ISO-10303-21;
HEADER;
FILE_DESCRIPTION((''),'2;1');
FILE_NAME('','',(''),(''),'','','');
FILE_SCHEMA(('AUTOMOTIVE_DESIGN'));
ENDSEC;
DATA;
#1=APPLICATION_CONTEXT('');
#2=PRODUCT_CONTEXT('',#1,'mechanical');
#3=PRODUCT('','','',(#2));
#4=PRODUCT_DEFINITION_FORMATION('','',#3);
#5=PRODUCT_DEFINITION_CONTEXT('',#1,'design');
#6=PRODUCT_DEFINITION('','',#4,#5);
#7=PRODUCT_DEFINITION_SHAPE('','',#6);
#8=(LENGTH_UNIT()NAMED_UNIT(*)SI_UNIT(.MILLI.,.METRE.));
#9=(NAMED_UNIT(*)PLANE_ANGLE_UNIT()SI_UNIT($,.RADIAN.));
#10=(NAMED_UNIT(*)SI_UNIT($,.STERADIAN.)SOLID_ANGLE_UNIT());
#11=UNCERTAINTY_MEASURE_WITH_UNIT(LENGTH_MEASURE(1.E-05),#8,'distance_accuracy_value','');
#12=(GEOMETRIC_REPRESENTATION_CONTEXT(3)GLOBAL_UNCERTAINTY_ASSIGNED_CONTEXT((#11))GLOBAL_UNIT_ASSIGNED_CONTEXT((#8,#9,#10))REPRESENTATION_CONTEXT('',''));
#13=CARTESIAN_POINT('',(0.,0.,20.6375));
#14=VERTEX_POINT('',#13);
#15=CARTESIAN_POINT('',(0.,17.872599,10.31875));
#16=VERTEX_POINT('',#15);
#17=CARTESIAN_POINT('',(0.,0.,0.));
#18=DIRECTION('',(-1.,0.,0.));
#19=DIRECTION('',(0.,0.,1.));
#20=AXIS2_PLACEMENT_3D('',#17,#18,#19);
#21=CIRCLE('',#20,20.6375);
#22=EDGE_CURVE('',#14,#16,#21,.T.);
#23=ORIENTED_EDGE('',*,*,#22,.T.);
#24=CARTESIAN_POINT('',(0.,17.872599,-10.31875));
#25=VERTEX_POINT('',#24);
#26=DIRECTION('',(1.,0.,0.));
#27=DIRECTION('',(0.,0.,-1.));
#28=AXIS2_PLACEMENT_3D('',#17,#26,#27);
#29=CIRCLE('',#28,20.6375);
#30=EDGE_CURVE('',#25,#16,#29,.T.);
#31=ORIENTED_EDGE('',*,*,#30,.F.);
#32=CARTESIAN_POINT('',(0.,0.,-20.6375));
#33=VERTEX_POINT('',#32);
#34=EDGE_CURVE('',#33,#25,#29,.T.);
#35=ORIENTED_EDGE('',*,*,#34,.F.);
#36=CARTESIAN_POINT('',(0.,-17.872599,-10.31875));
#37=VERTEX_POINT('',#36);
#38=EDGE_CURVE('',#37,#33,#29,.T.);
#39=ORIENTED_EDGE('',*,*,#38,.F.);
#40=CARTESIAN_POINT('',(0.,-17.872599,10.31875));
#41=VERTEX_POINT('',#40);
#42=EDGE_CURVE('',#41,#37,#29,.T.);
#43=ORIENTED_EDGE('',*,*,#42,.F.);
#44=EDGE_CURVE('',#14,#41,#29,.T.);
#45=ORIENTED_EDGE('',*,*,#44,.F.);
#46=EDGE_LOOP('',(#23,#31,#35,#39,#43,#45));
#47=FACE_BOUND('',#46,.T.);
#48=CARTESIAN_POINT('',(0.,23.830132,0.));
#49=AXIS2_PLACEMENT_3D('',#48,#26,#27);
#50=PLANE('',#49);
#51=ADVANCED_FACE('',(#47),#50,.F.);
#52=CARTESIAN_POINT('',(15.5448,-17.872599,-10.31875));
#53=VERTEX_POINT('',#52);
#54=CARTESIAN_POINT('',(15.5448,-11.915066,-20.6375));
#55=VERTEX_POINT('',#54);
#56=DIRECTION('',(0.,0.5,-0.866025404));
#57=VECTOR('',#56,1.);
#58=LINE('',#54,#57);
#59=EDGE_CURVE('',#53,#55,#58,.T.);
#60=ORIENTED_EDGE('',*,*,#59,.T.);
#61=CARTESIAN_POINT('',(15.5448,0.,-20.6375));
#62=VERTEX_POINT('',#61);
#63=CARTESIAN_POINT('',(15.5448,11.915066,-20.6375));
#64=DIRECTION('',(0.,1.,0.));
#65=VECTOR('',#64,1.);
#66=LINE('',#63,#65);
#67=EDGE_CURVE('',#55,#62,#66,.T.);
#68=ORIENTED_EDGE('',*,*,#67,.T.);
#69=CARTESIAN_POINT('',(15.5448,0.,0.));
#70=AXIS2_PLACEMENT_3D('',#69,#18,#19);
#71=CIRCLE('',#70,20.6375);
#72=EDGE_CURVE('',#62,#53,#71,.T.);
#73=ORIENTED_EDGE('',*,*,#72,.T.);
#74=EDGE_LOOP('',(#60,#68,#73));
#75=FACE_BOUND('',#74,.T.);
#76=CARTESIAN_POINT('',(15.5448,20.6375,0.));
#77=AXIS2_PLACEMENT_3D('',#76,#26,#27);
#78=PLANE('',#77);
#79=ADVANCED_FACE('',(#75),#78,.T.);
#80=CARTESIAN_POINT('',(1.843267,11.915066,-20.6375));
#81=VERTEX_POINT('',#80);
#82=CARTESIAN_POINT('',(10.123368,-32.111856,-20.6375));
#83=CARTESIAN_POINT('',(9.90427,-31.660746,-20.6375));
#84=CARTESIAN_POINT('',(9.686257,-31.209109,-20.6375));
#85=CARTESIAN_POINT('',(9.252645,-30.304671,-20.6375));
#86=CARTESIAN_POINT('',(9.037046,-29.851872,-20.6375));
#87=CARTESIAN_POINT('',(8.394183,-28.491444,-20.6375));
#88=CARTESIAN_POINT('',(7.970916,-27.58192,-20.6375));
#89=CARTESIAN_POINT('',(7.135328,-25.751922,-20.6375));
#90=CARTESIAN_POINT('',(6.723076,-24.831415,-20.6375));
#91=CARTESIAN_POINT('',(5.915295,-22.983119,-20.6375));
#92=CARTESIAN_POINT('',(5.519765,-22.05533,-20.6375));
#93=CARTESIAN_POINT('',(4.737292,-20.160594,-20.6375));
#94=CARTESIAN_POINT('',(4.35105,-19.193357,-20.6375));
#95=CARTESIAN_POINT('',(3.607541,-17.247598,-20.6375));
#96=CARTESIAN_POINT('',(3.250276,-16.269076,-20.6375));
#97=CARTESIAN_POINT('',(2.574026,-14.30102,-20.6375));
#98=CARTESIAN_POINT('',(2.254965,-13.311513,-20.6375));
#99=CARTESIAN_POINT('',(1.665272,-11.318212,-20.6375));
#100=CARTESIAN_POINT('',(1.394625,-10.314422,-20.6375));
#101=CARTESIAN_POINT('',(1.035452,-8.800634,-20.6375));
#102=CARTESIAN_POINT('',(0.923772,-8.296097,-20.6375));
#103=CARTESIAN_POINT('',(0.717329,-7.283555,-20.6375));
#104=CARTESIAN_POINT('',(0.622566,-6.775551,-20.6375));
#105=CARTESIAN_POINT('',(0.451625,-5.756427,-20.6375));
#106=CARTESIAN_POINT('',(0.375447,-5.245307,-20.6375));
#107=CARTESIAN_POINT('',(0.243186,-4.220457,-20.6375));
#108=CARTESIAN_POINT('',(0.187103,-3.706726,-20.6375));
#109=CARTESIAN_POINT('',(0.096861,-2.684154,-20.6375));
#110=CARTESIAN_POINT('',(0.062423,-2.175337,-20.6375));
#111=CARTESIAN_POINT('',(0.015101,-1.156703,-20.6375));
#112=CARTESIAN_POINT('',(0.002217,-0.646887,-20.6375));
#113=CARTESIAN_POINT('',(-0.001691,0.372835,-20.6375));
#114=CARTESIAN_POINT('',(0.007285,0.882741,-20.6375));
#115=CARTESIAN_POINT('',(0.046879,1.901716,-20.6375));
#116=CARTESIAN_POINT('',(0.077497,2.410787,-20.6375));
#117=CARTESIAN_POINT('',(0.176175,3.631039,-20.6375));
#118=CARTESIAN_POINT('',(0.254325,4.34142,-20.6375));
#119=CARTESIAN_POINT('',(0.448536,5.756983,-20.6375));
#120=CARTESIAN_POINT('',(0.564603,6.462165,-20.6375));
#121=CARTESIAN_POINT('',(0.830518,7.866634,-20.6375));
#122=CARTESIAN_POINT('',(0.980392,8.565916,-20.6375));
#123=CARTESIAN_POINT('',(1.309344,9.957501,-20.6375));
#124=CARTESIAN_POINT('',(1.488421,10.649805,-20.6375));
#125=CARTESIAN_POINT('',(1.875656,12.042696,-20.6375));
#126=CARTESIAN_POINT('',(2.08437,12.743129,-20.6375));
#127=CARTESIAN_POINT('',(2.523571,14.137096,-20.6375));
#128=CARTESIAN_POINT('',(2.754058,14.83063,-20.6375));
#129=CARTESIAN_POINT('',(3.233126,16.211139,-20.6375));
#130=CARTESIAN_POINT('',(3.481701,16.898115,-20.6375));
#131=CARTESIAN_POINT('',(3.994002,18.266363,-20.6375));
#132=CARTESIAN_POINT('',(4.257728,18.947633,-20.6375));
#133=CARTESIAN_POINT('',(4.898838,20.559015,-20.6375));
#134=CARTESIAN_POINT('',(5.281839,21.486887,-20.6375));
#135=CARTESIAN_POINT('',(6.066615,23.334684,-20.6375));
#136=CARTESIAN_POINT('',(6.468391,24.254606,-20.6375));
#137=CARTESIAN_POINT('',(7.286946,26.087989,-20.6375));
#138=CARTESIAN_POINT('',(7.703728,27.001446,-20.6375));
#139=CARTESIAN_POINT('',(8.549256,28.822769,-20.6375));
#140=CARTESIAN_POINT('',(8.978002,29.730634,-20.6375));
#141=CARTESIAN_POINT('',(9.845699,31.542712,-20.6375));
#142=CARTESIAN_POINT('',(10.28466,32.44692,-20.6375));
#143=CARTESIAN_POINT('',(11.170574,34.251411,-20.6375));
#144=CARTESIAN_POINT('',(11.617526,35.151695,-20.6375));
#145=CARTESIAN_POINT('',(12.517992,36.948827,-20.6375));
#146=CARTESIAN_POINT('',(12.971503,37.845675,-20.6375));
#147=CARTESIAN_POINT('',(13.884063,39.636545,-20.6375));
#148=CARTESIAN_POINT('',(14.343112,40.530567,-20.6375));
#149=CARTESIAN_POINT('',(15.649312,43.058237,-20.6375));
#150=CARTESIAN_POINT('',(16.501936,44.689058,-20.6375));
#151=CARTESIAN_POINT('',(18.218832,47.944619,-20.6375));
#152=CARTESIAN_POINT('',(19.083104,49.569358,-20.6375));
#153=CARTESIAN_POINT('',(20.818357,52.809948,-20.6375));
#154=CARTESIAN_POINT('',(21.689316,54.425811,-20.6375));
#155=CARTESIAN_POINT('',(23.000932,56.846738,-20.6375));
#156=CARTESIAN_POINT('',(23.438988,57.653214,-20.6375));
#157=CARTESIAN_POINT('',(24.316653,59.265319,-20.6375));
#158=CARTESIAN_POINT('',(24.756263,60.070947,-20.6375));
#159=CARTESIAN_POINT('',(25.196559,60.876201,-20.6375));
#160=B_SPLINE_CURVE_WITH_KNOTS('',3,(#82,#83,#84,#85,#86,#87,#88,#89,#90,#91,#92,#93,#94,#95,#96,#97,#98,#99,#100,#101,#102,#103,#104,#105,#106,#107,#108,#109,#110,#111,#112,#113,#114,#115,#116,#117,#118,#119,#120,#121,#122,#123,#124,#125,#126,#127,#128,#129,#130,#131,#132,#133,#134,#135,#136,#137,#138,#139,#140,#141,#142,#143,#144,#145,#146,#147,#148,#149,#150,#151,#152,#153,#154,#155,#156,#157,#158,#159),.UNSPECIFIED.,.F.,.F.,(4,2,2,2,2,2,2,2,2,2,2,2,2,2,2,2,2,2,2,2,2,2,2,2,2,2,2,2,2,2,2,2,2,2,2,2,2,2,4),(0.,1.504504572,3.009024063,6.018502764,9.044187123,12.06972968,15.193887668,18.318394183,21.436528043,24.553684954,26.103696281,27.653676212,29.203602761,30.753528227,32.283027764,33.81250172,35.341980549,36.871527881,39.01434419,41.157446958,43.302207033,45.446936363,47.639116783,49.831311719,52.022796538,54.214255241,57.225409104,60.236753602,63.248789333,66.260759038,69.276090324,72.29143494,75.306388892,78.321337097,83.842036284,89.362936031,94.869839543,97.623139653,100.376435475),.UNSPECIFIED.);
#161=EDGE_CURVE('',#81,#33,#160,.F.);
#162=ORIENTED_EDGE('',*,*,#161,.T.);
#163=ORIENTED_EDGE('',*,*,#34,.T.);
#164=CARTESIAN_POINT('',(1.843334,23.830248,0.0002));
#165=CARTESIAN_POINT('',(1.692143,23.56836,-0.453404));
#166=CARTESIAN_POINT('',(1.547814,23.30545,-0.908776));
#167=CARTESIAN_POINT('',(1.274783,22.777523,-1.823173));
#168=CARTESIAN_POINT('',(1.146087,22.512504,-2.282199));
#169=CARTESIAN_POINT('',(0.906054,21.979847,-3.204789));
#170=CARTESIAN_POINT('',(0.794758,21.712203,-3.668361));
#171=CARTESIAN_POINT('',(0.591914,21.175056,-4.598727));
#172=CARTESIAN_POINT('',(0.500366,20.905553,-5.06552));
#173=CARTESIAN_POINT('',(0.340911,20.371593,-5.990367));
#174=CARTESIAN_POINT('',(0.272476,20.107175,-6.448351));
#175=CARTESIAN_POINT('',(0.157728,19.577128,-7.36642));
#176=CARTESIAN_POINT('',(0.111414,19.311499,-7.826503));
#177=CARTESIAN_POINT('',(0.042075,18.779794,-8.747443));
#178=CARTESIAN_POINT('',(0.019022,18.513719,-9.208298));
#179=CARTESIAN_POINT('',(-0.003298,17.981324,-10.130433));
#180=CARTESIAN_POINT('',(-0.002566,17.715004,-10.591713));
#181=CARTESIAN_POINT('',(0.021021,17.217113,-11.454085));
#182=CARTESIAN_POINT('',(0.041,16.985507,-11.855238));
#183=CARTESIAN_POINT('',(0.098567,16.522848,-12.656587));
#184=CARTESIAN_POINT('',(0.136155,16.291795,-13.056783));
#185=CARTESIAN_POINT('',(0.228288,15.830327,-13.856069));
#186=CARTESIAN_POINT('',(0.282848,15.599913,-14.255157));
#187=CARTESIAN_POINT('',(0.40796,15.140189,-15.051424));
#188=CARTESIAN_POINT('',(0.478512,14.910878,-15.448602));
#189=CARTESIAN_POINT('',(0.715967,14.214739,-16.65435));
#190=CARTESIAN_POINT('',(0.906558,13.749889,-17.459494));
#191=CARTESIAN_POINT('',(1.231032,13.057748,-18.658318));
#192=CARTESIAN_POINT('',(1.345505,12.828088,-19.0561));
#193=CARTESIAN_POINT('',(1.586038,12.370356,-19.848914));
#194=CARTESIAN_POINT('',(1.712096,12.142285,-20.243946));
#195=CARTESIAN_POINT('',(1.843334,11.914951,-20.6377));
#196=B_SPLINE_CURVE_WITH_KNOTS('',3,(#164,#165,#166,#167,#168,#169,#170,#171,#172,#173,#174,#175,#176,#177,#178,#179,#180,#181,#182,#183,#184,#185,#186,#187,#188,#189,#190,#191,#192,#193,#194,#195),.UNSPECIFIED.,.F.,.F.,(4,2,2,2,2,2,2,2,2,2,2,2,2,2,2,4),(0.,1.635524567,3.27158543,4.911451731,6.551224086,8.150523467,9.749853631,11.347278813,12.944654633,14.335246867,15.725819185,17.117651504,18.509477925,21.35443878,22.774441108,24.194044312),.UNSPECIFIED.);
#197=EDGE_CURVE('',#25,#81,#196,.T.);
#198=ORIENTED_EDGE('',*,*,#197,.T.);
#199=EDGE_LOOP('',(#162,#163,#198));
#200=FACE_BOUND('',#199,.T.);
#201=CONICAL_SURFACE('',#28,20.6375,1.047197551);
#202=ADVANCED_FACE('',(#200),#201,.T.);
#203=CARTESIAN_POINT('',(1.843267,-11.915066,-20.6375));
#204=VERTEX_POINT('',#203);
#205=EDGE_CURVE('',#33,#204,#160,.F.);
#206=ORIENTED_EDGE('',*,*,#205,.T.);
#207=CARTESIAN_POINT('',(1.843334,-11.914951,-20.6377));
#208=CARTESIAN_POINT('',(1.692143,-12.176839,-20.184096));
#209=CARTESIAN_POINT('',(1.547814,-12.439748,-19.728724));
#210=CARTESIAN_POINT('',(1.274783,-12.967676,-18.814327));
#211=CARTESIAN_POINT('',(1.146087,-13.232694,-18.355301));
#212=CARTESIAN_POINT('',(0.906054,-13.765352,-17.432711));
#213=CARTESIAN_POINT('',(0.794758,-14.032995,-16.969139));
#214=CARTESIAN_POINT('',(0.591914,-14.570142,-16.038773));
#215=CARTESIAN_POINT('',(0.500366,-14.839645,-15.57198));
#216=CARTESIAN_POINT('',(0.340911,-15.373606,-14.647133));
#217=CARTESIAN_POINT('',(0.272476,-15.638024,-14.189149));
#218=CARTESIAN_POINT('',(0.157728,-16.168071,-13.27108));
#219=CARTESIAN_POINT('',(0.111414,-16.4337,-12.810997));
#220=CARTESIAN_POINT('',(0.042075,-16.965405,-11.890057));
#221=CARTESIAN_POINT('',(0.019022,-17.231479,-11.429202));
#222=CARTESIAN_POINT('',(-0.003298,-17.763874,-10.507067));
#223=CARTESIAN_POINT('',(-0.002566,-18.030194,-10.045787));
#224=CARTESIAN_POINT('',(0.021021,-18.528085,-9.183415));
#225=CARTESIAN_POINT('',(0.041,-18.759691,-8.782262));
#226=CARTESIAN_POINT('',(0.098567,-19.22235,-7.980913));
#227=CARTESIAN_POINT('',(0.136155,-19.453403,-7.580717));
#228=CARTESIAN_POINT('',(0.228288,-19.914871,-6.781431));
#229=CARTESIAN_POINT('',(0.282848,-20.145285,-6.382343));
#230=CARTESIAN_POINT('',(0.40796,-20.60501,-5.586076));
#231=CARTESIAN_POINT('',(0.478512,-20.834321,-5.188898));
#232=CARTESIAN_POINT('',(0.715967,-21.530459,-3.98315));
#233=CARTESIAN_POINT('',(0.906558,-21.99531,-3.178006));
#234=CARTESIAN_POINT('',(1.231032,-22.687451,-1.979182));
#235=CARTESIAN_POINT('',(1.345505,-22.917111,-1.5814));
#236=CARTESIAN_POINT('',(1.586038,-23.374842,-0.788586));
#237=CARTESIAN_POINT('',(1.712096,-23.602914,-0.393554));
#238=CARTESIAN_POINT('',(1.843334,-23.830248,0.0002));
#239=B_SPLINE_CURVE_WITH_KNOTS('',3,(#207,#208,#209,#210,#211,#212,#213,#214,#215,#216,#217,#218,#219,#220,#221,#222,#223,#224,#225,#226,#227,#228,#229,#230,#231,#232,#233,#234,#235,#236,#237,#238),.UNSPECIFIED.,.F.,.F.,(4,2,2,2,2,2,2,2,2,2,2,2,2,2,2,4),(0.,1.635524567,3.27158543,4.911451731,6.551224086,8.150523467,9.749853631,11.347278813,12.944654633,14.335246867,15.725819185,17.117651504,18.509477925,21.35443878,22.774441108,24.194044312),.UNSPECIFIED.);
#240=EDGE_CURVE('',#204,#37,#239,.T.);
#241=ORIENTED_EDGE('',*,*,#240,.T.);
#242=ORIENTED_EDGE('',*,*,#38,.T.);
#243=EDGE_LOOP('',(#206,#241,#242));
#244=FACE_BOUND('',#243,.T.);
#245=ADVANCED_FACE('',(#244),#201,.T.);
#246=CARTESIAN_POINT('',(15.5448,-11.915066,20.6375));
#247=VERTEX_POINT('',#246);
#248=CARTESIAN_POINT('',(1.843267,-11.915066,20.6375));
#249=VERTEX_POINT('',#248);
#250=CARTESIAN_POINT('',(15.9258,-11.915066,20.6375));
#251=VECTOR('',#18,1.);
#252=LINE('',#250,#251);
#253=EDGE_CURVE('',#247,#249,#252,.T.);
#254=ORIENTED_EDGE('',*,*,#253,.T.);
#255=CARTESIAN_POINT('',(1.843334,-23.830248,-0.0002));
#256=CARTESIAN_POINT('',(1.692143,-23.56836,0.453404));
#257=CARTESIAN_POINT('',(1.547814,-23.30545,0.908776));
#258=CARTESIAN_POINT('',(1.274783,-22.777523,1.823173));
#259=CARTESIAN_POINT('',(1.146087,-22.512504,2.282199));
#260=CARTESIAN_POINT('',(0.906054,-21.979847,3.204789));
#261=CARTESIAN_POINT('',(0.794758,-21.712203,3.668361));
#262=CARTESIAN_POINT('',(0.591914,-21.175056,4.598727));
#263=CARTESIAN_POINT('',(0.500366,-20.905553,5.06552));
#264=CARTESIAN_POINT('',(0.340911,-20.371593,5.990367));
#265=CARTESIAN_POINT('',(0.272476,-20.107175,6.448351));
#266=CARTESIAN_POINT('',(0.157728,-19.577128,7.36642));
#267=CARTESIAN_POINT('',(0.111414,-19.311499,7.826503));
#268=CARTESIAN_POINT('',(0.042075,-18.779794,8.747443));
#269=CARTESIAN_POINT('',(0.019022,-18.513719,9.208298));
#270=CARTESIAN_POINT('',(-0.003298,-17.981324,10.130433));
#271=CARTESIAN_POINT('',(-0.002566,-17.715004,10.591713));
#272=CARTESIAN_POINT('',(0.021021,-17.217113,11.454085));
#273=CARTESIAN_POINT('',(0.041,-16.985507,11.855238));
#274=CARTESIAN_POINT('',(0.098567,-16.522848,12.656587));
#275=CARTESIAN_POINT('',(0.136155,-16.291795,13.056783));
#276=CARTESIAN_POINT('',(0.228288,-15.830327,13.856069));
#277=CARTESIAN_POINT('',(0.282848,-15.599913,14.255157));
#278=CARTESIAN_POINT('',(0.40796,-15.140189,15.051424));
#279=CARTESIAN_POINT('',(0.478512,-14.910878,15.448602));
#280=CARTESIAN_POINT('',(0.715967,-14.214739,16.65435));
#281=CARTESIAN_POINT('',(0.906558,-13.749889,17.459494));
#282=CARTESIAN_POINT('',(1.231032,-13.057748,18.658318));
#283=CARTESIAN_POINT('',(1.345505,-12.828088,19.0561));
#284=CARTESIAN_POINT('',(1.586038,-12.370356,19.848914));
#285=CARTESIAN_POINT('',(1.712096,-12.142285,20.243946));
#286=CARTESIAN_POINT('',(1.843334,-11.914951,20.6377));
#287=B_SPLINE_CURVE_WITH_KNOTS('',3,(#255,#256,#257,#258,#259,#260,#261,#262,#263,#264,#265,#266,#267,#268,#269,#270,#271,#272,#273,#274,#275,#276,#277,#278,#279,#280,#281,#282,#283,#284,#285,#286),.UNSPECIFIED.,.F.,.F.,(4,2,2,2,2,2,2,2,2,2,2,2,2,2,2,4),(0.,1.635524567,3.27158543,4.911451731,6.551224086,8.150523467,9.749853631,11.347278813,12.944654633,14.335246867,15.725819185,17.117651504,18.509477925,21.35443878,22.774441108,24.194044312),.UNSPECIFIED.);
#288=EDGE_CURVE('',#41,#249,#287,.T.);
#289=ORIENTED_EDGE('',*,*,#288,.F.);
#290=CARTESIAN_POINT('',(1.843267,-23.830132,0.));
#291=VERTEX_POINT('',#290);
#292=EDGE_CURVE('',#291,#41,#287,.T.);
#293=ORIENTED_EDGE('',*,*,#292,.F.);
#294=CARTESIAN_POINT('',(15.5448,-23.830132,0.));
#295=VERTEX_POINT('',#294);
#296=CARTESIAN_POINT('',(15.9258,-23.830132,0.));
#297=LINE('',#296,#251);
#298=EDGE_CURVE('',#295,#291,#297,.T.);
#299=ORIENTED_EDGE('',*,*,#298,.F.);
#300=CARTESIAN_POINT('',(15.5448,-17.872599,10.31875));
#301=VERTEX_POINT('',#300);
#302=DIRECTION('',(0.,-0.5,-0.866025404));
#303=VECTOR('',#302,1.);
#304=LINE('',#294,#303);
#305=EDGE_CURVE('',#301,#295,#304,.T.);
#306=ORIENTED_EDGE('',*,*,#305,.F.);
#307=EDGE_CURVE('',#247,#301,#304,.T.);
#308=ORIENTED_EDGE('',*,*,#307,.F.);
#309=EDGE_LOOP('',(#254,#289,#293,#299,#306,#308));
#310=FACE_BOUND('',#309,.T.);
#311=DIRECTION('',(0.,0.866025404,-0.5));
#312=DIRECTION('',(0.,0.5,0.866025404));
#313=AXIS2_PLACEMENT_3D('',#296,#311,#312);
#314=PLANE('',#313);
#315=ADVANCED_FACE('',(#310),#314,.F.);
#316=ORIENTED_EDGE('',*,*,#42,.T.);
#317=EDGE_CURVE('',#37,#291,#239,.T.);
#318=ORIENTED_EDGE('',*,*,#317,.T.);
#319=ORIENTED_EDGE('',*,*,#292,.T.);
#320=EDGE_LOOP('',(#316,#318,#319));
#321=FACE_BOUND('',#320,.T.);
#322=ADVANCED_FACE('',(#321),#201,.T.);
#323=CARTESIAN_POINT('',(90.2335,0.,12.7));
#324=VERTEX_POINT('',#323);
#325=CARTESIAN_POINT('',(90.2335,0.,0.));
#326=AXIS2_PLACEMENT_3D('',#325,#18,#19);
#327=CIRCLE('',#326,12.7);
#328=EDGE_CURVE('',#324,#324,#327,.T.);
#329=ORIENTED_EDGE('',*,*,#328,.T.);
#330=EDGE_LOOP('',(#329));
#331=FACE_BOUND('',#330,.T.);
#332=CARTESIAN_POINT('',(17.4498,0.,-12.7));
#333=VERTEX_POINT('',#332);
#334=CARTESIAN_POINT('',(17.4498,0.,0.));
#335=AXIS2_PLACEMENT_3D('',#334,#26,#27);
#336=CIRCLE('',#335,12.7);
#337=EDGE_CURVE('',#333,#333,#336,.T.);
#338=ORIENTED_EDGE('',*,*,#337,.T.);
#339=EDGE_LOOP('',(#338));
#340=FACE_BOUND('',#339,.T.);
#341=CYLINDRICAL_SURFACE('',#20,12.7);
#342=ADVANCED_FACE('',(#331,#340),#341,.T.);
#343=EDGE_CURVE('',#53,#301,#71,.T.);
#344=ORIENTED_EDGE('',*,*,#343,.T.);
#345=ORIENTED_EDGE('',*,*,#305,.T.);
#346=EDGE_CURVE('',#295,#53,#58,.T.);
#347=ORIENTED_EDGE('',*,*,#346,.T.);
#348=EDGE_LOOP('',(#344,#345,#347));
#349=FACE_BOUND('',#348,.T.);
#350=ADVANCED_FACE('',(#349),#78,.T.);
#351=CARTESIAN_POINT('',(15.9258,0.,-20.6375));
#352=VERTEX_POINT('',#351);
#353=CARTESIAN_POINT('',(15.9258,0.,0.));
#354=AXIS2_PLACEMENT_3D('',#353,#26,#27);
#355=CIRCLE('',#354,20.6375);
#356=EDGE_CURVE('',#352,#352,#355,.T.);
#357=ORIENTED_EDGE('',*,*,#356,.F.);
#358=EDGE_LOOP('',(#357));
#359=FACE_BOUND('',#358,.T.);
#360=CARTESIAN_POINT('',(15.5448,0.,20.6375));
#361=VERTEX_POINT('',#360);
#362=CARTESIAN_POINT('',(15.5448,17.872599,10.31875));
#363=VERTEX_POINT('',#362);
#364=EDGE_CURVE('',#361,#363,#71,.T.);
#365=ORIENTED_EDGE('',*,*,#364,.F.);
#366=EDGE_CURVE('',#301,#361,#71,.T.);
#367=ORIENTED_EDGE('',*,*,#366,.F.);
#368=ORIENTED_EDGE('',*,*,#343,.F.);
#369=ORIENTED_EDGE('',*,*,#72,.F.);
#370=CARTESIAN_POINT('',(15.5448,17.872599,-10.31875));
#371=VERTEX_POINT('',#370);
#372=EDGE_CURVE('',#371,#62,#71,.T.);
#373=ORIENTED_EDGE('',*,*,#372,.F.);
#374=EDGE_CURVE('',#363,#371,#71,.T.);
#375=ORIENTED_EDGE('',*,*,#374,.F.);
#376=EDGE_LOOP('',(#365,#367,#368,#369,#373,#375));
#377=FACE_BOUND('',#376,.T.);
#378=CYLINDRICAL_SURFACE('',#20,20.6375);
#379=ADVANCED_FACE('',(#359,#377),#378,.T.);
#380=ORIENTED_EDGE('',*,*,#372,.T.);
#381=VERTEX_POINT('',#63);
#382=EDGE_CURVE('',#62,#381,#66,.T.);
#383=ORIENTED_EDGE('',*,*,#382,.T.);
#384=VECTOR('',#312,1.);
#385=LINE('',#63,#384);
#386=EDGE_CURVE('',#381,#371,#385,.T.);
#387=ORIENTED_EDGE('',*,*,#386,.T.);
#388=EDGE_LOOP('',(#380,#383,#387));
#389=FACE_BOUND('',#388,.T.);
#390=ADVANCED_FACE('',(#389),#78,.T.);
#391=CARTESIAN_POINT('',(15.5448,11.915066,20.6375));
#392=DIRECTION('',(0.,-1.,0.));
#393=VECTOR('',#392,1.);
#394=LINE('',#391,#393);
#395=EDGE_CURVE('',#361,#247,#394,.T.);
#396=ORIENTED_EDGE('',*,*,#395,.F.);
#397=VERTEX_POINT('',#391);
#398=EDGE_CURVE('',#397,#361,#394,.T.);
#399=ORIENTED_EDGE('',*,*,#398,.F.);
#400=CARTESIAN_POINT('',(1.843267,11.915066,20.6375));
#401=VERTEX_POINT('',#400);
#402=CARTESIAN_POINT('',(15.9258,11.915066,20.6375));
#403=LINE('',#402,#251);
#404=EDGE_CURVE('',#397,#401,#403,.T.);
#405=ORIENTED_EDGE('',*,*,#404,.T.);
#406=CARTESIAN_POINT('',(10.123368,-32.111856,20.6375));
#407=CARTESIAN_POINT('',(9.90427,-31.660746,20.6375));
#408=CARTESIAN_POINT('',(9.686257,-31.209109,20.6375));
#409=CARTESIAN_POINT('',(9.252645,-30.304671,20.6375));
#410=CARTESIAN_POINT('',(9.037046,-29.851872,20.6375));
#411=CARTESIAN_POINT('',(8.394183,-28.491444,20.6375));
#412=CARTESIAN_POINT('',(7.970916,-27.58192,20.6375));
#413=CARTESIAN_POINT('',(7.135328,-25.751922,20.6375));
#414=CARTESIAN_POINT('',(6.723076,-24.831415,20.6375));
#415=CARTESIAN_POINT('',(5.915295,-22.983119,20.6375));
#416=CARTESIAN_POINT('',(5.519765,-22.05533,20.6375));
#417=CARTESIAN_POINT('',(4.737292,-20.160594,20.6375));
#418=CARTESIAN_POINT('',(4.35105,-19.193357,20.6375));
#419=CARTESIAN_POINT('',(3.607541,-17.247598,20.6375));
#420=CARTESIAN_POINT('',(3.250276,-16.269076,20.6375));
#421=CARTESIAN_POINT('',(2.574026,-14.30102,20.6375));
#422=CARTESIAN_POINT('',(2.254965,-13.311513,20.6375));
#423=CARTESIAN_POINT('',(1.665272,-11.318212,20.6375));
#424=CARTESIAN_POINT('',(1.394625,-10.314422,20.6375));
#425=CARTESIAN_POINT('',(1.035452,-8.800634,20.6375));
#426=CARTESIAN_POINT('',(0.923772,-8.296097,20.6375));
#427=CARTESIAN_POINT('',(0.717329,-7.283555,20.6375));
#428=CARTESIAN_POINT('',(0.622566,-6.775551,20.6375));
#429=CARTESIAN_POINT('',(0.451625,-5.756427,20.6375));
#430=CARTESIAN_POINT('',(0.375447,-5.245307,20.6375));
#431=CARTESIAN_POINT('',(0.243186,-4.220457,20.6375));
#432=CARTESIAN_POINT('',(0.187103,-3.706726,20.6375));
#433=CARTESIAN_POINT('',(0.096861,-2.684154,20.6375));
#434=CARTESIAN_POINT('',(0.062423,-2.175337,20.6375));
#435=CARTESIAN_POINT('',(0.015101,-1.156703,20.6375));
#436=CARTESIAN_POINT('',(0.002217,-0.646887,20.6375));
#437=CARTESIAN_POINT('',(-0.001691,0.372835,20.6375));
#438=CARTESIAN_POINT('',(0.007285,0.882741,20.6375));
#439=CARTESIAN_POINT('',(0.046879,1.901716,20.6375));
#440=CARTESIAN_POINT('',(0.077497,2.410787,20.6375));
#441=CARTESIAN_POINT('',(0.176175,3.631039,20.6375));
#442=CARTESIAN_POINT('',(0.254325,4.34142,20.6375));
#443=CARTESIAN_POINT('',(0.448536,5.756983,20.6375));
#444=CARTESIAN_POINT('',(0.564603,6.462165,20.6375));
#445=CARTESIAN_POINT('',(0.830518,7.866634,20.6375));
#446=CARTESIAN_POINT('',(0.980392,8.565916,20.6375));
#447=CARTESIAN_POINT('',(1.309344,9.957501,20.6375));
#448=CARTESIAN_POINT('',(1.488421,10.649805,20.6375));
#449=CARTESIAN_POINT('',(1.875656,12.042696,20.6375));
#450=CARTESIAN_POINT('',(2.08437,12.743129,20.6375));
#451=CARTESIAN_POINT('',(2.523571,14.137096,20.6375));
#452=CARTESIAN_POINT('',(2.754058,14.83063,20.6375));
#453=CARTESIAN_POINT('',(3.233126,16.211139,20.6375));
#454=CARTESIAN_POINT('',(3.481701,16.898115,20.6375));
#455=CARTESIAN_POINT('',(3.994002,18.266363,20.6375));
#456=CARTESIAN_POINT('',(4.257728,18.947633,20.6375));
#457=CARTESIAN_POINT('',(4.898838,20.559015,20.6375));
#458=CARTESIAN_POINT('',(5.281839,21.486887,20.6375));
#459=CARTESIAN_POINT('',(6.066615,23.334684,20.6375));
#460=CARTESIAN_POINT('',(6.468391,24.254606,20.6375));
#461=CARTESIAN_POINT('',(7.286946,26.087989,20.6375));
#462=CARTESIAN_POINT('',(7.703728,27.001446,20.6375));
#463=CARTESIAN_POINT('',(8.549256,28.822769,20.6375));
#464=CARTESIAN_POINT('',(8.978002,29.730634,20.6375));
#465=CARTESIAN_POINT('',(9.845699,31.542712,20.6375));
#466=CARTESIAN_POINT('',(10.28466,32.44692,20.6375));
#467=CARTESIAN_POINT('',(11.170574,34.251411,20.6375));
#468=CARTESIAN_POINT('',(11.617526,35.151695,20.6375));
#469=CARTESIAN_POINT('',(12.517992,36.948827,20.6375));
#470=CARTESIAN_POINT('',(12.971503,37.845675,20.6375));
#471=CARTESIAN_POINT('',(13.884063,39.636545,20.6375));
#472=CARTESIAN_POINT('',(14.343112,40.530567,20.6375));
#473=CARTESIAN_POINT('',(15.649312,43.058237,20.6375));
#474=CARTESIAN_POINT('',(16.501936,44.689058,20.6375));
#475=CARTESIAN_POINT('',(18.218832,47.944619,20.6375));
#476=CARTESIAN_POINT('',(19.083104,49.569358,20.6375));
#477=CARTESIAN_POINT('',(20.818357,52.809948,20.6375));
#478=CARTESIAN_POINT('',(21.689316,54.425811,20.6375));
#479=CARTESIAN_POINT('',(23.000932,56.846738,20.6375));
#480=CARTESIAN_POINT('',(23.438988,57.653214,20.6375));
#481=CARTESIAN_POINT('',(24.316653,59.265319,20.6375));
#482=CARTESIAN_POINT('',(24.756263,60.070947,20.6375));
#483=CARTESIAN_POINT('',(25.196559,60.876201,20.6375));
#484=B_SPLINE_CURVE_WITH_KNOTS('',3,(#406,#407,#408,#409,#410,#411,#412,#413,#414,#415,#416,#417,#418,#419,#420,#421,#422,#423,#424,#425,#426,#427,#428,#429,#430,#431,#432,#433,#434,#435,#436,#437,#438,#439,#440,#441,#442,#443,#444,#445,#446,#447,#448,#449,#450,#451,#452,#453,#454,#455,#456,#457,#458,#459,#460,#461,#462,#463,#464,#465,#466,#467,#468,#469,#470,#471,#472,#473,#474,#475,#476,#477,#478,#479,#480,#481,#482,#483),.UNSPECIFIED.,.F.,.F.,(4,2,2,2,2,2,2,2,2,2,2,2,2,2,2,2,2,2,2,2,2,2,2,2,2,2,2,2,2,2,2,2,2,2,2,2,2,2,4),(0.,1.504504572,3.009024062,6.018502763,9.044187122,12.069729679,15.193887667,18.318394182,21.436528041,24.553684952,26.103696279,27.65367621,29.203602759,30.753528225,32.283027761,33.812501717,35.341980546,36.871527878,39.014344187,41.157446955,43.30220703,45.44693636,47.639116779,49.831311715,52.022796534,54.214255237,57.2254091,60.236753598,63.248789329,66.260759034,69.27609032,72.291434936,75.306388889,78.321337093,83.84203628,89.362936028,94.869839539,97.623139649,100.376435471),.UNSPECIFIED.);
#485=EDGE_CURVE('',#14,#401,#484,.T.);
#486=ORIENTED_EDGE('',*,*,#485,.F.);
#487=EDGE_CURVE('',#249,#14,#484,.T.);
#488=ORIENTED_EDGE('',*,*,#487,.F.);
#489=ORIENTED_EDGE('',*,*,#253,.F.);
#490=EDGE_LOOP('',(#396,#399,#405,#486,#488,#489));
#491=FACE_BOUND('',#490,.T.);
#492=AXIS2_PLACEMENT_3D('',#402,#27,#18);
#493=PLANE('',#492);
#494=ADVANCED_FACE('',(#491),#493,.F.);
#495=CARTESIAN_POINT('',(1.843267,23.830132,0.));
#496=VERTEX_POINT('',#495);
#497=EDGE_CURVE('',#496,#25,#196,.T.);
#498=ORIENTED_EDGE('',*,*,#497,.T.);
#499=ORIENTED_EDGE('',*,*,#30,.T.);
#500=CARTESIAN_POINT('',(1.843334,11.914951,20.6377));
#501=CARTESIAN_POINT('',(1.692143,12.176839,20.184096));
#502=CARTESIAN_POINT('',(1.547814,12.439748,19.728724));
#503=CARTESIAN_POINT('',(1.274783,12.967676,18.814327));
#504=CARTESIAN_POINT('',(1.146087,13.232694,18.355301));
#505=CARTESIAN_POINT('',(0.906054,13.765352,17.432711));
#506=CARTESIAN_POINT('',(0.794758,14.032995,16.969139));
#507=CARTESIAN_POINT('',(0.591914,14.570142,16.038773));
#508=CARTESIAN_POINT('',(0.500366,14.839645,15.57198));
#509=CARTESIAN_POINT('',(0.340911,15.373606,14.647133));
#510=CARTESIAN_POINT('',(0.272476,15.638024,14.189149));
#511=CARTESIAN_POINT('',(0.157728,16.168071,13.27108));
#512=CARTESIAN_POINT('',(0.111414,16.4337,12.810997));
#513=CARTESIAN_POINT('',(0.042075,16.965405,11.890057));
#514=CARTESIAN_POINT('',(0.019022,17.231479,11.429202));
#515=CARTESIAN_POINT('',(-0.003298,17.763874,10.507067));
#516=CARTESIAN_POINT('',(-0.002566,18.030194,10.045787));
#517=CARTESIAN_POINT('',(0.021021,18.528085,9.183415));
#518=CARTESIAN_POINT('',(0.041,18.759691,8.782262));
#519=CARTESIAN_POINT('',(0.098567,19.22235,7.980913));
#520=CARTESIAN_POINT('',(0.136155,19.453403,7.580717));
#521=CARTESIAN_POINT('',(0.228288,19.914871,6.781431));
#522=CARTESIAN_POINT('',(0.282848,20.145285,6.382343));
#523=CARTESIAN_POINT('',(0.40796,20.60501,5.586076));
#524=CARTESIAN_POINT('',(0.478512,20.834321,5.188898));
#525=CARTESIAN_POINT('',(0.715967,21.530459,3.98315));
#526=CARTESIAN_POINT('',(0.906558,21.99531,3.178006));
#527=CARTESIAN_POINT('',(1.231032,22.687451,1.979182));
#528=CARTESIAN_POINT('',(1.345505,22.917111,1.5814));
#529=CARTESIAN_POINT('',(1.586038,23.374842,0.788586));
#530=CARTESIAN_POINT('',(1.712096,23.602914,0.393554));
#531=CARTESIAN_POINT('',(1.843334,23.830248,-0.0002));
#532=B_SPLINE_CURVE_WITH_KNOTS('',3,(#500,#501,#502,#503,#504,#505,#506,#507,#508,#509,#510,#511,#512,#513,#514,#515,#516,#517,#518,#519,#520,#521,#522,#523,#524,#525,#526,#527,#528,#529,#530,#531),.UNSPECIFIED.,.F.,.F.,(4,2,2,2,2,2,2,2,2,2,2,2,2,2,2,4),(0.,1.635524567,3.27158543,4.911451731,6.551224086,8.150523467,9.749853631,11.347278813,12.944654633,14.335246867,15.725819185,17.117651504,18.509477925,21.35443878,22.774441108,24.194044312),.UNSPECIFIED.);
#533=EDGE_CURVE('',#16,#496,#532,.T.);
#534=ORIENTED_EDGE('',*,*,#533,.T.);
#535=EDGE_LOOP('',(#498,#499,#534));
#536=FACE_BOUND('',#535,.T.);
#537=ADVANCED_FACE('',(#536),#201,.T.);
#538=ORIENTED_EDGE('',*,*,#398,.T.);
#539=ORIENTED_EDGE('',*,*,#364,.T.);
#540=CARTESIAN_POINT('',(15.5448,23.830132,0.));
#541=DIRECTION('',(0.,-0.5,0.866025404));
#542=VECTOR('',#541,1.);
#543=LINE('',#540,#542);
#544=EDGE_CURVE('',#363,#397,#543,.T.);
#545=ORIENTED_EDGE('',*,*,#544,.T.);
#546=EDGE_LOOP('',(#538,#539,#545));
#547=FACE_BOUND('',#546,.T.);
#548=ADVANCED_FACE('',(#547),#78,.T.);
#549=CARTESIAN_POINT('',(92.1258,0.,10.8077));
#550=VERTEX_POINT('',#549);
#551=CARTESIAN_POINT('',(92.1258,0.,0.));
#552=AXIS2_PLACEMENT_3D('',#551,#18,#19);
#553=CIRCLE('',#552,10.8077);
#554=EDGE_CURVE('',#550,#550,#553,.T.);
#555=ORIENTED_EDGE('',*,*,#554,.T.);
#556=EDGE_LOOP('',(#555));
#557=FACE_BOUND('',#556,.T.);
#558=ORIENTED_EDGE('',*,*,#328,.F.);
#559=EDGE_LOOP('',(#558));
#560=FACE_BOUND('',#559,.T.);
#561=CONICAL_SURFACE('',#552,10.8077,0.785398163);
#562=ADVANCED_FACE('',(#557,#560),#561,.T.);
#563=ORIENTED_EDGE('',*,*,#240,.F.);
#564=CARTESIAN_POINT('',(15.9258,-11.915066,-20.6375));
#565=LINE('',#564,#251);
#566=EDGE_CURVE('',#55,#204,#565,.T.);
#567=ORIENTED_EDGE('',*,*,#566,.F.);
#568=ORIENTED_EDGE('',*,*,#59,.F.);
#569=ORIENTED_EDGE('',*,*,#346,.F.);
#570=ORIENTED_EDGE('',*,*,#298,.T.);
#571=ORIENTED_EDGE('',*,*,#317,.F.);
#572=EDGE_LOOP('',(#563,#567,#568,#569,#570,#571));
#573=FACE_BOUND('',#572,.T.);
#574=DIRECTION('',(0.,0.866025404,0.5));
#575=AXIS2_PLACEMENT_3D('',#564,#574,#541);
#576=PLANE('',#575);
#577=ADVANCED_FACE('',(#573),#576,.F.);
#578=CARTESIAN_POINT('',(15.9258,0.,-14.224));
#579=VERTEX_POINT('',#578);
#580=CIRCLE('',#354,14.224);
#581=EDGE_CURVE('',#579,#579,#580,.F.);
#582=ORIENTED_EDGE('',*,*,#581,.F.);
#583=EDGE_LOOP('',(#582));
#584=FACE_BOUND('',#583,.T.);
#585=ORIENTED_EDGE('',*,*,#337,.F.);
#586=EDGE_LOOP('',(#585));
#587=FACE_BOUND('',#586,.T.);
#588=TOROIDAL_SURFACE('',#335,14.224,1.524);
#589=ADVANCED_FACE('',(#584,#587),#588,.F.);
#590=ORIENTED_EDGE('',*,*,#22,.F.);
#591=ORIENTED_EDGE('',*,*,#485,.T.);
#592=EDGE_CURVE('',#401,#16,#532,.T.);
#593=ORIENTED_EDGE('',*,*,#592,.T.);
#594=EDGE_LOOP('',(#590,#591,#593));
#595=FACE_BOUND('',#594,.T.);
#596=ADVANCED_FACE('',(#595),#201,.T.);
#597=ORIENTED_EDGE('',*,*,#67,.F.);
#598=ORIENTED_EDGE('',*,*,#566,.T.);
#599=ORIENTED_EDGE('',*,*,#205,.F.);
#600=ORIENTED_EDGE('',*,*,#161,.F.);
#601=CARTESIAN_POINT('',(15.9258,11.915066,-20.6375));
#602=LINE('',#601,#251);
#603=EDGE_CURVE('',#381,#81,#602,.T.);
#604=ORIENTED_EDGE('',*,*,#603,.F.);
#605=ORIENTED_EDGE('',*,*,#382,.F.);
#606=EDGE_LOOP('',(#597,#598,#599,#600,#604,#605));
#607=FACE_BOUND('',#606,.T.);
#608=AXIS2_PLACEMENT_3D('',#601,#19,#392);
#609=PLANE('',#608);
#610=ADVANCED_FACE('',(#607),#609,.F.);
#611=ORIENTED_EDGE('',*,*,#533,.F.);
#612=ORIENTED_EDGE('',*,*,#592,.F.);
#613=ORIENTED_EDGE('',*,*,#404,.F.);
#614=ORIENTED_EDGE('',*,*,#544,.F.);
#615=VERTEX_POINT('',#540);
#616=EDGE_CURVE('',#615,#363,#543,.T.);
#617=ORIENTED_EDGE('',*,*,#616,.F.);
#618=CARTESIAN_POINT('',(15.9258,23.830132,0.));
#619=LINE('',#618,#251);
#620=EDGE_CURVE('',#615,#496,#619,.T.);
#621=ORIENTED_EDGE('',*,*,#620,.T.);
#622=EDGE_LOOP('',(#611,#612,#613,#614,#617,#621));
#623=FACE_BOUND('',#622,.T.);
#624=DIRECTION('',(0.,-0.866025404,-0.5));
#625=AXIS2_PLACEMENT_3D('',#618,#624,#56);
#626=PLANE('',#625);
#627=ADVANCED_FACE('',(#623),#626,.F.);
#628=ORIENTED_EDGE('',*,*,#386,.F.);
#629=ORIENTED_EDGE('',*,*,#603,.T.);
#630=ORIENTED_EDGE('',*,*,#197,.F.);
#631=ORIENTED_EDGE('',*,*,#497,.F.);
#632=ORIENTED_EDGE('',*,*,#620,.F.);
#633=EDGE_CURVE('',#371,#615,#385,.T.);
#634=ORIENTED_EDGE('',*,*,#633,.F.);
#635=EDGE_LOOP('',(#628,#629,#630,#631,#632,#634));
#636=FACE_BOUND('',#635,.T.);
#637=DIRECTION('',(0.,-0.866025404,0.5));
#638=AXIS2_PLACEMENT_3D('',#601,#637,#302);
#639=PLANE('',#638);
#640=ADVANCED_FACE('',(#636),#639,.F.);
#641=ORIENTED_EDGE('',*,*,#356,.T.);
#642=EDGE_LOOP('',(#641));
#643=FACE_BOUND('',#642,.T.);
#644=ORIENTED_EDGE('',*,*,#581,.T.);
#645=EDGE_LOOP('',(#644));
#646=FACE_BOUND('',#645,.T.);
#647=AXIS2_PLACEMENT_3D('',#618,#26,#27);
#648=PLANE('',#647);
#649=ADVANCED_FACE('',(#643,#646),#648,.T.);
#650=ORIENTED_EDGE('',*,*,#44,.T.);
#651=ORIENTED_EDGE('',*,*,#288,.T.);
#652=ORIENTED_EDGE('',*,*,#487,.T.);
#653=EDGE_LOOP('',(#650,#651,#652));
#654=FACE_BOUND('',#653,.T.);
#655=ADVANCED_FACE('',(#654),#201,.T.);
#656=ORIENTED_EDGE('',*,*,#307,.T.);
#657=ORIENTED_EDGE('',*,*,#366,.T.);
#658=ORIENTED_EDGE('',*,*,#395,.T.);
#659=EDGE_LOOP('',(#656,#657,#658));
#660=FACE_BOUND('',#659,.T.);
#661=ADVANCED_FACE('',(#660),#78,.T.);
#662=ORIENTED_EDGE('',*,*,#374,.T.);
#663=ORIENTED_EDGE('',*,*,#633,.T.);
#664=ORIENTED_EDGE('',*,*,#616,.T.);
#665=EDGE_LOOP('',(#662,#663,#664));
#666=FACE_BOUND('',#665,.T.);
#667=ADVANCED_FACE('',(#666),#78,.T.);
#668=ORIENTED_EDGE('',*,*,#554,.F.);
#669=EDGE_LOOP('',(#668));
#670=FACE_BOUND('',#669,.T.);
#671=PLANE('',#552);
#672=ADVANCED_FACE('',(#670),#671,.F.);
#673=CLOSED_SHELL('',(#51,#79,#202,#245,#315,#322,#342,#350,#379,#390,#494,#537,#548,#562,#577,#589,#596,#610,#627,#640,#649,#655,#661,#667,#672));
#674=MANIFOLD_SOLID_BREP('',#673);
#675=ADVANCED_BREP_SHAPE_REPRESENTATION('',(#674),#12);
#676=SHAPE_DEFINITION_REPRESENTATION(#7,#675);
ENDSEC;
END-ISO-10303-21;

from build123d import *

# Parameters (mm, degrees)
BASEHEAD_DEPTH = 15.9258
SKETCH4_W      = 0.381
SKETCH4_H      = 28.592632361
HEADFILLET_R   = 1.524


with BuildPart() as part:
    # Sketch1 → BaseHead (new body)
    with BuildSketch(Plane(origin=(0, 0, 0), x_dir=(0, 0, -1), z_dir=(1, 0, 0))):
        Polygon((20.6375, 11.91506618), (20.6375, -11.91506618), (0, -23.830132361), (-20.6375, -11.91506618), (-20.6375, 11.91506618), (0, 23.830132361), align=None)
    extrude(amount=BASEHEAD_DEPTH)

    # BodySke → BaseBody (revolve)
    with BuildSketch(Plane.XY, mode=Mode.PRIVATE) as basebody_sk:
        Polygon((0, 0), (92.1258, 0), (92.1258, 10.8077), (90.2335, 12.7), (0, 12.7), align=None)
    revolve(basebody_sk.sketch.rotate(Axis((0, 0, 0), (1, 0, 0)), 90), axis=Axis((0, 0, 0), (1, 0, 0)))

    # Sketch3 → HeadChamfer (revolve, cut)
    with BuildSketch(Plane.XY):
        Polygon((0, 20.6375), (5.509441362, 30.180132361), (5.509441362, 36.530132361), (-12.7, 36.530132361), (-12.7, 20.6375), align=None)
    revolve(axis=Axis((0, 0, 0), (1, 0, 0)), mode=Mode.SUBTRACT)

    # Sketch4 → BearingFace (revolve, cut)
    with BuildSketch(Plane.XY, mode=Mode.PRIVATE) as bearingface_sk:
        with Locations((15.7353, 34.933816181)):
            Rectangle(SKETCH4_W, SKETCH4_H)
    revolve(bearingface_sk.sketch.rotate(Axis((0, 0, 0), (1, 0, 0)), 270), axis=Axis((0, 0, 0), (1, 0, 0)), mode=Mode.SUBTRACT)

    # HeadFillet
    headfillet_edges = [part.edges().sort_by_distance(p)[0] for p in [
        (15.9258, 0, -12.7),
    ]]
    fillet(headfillet_edges, radius=HEADFILLET_R)


solid = part.part
